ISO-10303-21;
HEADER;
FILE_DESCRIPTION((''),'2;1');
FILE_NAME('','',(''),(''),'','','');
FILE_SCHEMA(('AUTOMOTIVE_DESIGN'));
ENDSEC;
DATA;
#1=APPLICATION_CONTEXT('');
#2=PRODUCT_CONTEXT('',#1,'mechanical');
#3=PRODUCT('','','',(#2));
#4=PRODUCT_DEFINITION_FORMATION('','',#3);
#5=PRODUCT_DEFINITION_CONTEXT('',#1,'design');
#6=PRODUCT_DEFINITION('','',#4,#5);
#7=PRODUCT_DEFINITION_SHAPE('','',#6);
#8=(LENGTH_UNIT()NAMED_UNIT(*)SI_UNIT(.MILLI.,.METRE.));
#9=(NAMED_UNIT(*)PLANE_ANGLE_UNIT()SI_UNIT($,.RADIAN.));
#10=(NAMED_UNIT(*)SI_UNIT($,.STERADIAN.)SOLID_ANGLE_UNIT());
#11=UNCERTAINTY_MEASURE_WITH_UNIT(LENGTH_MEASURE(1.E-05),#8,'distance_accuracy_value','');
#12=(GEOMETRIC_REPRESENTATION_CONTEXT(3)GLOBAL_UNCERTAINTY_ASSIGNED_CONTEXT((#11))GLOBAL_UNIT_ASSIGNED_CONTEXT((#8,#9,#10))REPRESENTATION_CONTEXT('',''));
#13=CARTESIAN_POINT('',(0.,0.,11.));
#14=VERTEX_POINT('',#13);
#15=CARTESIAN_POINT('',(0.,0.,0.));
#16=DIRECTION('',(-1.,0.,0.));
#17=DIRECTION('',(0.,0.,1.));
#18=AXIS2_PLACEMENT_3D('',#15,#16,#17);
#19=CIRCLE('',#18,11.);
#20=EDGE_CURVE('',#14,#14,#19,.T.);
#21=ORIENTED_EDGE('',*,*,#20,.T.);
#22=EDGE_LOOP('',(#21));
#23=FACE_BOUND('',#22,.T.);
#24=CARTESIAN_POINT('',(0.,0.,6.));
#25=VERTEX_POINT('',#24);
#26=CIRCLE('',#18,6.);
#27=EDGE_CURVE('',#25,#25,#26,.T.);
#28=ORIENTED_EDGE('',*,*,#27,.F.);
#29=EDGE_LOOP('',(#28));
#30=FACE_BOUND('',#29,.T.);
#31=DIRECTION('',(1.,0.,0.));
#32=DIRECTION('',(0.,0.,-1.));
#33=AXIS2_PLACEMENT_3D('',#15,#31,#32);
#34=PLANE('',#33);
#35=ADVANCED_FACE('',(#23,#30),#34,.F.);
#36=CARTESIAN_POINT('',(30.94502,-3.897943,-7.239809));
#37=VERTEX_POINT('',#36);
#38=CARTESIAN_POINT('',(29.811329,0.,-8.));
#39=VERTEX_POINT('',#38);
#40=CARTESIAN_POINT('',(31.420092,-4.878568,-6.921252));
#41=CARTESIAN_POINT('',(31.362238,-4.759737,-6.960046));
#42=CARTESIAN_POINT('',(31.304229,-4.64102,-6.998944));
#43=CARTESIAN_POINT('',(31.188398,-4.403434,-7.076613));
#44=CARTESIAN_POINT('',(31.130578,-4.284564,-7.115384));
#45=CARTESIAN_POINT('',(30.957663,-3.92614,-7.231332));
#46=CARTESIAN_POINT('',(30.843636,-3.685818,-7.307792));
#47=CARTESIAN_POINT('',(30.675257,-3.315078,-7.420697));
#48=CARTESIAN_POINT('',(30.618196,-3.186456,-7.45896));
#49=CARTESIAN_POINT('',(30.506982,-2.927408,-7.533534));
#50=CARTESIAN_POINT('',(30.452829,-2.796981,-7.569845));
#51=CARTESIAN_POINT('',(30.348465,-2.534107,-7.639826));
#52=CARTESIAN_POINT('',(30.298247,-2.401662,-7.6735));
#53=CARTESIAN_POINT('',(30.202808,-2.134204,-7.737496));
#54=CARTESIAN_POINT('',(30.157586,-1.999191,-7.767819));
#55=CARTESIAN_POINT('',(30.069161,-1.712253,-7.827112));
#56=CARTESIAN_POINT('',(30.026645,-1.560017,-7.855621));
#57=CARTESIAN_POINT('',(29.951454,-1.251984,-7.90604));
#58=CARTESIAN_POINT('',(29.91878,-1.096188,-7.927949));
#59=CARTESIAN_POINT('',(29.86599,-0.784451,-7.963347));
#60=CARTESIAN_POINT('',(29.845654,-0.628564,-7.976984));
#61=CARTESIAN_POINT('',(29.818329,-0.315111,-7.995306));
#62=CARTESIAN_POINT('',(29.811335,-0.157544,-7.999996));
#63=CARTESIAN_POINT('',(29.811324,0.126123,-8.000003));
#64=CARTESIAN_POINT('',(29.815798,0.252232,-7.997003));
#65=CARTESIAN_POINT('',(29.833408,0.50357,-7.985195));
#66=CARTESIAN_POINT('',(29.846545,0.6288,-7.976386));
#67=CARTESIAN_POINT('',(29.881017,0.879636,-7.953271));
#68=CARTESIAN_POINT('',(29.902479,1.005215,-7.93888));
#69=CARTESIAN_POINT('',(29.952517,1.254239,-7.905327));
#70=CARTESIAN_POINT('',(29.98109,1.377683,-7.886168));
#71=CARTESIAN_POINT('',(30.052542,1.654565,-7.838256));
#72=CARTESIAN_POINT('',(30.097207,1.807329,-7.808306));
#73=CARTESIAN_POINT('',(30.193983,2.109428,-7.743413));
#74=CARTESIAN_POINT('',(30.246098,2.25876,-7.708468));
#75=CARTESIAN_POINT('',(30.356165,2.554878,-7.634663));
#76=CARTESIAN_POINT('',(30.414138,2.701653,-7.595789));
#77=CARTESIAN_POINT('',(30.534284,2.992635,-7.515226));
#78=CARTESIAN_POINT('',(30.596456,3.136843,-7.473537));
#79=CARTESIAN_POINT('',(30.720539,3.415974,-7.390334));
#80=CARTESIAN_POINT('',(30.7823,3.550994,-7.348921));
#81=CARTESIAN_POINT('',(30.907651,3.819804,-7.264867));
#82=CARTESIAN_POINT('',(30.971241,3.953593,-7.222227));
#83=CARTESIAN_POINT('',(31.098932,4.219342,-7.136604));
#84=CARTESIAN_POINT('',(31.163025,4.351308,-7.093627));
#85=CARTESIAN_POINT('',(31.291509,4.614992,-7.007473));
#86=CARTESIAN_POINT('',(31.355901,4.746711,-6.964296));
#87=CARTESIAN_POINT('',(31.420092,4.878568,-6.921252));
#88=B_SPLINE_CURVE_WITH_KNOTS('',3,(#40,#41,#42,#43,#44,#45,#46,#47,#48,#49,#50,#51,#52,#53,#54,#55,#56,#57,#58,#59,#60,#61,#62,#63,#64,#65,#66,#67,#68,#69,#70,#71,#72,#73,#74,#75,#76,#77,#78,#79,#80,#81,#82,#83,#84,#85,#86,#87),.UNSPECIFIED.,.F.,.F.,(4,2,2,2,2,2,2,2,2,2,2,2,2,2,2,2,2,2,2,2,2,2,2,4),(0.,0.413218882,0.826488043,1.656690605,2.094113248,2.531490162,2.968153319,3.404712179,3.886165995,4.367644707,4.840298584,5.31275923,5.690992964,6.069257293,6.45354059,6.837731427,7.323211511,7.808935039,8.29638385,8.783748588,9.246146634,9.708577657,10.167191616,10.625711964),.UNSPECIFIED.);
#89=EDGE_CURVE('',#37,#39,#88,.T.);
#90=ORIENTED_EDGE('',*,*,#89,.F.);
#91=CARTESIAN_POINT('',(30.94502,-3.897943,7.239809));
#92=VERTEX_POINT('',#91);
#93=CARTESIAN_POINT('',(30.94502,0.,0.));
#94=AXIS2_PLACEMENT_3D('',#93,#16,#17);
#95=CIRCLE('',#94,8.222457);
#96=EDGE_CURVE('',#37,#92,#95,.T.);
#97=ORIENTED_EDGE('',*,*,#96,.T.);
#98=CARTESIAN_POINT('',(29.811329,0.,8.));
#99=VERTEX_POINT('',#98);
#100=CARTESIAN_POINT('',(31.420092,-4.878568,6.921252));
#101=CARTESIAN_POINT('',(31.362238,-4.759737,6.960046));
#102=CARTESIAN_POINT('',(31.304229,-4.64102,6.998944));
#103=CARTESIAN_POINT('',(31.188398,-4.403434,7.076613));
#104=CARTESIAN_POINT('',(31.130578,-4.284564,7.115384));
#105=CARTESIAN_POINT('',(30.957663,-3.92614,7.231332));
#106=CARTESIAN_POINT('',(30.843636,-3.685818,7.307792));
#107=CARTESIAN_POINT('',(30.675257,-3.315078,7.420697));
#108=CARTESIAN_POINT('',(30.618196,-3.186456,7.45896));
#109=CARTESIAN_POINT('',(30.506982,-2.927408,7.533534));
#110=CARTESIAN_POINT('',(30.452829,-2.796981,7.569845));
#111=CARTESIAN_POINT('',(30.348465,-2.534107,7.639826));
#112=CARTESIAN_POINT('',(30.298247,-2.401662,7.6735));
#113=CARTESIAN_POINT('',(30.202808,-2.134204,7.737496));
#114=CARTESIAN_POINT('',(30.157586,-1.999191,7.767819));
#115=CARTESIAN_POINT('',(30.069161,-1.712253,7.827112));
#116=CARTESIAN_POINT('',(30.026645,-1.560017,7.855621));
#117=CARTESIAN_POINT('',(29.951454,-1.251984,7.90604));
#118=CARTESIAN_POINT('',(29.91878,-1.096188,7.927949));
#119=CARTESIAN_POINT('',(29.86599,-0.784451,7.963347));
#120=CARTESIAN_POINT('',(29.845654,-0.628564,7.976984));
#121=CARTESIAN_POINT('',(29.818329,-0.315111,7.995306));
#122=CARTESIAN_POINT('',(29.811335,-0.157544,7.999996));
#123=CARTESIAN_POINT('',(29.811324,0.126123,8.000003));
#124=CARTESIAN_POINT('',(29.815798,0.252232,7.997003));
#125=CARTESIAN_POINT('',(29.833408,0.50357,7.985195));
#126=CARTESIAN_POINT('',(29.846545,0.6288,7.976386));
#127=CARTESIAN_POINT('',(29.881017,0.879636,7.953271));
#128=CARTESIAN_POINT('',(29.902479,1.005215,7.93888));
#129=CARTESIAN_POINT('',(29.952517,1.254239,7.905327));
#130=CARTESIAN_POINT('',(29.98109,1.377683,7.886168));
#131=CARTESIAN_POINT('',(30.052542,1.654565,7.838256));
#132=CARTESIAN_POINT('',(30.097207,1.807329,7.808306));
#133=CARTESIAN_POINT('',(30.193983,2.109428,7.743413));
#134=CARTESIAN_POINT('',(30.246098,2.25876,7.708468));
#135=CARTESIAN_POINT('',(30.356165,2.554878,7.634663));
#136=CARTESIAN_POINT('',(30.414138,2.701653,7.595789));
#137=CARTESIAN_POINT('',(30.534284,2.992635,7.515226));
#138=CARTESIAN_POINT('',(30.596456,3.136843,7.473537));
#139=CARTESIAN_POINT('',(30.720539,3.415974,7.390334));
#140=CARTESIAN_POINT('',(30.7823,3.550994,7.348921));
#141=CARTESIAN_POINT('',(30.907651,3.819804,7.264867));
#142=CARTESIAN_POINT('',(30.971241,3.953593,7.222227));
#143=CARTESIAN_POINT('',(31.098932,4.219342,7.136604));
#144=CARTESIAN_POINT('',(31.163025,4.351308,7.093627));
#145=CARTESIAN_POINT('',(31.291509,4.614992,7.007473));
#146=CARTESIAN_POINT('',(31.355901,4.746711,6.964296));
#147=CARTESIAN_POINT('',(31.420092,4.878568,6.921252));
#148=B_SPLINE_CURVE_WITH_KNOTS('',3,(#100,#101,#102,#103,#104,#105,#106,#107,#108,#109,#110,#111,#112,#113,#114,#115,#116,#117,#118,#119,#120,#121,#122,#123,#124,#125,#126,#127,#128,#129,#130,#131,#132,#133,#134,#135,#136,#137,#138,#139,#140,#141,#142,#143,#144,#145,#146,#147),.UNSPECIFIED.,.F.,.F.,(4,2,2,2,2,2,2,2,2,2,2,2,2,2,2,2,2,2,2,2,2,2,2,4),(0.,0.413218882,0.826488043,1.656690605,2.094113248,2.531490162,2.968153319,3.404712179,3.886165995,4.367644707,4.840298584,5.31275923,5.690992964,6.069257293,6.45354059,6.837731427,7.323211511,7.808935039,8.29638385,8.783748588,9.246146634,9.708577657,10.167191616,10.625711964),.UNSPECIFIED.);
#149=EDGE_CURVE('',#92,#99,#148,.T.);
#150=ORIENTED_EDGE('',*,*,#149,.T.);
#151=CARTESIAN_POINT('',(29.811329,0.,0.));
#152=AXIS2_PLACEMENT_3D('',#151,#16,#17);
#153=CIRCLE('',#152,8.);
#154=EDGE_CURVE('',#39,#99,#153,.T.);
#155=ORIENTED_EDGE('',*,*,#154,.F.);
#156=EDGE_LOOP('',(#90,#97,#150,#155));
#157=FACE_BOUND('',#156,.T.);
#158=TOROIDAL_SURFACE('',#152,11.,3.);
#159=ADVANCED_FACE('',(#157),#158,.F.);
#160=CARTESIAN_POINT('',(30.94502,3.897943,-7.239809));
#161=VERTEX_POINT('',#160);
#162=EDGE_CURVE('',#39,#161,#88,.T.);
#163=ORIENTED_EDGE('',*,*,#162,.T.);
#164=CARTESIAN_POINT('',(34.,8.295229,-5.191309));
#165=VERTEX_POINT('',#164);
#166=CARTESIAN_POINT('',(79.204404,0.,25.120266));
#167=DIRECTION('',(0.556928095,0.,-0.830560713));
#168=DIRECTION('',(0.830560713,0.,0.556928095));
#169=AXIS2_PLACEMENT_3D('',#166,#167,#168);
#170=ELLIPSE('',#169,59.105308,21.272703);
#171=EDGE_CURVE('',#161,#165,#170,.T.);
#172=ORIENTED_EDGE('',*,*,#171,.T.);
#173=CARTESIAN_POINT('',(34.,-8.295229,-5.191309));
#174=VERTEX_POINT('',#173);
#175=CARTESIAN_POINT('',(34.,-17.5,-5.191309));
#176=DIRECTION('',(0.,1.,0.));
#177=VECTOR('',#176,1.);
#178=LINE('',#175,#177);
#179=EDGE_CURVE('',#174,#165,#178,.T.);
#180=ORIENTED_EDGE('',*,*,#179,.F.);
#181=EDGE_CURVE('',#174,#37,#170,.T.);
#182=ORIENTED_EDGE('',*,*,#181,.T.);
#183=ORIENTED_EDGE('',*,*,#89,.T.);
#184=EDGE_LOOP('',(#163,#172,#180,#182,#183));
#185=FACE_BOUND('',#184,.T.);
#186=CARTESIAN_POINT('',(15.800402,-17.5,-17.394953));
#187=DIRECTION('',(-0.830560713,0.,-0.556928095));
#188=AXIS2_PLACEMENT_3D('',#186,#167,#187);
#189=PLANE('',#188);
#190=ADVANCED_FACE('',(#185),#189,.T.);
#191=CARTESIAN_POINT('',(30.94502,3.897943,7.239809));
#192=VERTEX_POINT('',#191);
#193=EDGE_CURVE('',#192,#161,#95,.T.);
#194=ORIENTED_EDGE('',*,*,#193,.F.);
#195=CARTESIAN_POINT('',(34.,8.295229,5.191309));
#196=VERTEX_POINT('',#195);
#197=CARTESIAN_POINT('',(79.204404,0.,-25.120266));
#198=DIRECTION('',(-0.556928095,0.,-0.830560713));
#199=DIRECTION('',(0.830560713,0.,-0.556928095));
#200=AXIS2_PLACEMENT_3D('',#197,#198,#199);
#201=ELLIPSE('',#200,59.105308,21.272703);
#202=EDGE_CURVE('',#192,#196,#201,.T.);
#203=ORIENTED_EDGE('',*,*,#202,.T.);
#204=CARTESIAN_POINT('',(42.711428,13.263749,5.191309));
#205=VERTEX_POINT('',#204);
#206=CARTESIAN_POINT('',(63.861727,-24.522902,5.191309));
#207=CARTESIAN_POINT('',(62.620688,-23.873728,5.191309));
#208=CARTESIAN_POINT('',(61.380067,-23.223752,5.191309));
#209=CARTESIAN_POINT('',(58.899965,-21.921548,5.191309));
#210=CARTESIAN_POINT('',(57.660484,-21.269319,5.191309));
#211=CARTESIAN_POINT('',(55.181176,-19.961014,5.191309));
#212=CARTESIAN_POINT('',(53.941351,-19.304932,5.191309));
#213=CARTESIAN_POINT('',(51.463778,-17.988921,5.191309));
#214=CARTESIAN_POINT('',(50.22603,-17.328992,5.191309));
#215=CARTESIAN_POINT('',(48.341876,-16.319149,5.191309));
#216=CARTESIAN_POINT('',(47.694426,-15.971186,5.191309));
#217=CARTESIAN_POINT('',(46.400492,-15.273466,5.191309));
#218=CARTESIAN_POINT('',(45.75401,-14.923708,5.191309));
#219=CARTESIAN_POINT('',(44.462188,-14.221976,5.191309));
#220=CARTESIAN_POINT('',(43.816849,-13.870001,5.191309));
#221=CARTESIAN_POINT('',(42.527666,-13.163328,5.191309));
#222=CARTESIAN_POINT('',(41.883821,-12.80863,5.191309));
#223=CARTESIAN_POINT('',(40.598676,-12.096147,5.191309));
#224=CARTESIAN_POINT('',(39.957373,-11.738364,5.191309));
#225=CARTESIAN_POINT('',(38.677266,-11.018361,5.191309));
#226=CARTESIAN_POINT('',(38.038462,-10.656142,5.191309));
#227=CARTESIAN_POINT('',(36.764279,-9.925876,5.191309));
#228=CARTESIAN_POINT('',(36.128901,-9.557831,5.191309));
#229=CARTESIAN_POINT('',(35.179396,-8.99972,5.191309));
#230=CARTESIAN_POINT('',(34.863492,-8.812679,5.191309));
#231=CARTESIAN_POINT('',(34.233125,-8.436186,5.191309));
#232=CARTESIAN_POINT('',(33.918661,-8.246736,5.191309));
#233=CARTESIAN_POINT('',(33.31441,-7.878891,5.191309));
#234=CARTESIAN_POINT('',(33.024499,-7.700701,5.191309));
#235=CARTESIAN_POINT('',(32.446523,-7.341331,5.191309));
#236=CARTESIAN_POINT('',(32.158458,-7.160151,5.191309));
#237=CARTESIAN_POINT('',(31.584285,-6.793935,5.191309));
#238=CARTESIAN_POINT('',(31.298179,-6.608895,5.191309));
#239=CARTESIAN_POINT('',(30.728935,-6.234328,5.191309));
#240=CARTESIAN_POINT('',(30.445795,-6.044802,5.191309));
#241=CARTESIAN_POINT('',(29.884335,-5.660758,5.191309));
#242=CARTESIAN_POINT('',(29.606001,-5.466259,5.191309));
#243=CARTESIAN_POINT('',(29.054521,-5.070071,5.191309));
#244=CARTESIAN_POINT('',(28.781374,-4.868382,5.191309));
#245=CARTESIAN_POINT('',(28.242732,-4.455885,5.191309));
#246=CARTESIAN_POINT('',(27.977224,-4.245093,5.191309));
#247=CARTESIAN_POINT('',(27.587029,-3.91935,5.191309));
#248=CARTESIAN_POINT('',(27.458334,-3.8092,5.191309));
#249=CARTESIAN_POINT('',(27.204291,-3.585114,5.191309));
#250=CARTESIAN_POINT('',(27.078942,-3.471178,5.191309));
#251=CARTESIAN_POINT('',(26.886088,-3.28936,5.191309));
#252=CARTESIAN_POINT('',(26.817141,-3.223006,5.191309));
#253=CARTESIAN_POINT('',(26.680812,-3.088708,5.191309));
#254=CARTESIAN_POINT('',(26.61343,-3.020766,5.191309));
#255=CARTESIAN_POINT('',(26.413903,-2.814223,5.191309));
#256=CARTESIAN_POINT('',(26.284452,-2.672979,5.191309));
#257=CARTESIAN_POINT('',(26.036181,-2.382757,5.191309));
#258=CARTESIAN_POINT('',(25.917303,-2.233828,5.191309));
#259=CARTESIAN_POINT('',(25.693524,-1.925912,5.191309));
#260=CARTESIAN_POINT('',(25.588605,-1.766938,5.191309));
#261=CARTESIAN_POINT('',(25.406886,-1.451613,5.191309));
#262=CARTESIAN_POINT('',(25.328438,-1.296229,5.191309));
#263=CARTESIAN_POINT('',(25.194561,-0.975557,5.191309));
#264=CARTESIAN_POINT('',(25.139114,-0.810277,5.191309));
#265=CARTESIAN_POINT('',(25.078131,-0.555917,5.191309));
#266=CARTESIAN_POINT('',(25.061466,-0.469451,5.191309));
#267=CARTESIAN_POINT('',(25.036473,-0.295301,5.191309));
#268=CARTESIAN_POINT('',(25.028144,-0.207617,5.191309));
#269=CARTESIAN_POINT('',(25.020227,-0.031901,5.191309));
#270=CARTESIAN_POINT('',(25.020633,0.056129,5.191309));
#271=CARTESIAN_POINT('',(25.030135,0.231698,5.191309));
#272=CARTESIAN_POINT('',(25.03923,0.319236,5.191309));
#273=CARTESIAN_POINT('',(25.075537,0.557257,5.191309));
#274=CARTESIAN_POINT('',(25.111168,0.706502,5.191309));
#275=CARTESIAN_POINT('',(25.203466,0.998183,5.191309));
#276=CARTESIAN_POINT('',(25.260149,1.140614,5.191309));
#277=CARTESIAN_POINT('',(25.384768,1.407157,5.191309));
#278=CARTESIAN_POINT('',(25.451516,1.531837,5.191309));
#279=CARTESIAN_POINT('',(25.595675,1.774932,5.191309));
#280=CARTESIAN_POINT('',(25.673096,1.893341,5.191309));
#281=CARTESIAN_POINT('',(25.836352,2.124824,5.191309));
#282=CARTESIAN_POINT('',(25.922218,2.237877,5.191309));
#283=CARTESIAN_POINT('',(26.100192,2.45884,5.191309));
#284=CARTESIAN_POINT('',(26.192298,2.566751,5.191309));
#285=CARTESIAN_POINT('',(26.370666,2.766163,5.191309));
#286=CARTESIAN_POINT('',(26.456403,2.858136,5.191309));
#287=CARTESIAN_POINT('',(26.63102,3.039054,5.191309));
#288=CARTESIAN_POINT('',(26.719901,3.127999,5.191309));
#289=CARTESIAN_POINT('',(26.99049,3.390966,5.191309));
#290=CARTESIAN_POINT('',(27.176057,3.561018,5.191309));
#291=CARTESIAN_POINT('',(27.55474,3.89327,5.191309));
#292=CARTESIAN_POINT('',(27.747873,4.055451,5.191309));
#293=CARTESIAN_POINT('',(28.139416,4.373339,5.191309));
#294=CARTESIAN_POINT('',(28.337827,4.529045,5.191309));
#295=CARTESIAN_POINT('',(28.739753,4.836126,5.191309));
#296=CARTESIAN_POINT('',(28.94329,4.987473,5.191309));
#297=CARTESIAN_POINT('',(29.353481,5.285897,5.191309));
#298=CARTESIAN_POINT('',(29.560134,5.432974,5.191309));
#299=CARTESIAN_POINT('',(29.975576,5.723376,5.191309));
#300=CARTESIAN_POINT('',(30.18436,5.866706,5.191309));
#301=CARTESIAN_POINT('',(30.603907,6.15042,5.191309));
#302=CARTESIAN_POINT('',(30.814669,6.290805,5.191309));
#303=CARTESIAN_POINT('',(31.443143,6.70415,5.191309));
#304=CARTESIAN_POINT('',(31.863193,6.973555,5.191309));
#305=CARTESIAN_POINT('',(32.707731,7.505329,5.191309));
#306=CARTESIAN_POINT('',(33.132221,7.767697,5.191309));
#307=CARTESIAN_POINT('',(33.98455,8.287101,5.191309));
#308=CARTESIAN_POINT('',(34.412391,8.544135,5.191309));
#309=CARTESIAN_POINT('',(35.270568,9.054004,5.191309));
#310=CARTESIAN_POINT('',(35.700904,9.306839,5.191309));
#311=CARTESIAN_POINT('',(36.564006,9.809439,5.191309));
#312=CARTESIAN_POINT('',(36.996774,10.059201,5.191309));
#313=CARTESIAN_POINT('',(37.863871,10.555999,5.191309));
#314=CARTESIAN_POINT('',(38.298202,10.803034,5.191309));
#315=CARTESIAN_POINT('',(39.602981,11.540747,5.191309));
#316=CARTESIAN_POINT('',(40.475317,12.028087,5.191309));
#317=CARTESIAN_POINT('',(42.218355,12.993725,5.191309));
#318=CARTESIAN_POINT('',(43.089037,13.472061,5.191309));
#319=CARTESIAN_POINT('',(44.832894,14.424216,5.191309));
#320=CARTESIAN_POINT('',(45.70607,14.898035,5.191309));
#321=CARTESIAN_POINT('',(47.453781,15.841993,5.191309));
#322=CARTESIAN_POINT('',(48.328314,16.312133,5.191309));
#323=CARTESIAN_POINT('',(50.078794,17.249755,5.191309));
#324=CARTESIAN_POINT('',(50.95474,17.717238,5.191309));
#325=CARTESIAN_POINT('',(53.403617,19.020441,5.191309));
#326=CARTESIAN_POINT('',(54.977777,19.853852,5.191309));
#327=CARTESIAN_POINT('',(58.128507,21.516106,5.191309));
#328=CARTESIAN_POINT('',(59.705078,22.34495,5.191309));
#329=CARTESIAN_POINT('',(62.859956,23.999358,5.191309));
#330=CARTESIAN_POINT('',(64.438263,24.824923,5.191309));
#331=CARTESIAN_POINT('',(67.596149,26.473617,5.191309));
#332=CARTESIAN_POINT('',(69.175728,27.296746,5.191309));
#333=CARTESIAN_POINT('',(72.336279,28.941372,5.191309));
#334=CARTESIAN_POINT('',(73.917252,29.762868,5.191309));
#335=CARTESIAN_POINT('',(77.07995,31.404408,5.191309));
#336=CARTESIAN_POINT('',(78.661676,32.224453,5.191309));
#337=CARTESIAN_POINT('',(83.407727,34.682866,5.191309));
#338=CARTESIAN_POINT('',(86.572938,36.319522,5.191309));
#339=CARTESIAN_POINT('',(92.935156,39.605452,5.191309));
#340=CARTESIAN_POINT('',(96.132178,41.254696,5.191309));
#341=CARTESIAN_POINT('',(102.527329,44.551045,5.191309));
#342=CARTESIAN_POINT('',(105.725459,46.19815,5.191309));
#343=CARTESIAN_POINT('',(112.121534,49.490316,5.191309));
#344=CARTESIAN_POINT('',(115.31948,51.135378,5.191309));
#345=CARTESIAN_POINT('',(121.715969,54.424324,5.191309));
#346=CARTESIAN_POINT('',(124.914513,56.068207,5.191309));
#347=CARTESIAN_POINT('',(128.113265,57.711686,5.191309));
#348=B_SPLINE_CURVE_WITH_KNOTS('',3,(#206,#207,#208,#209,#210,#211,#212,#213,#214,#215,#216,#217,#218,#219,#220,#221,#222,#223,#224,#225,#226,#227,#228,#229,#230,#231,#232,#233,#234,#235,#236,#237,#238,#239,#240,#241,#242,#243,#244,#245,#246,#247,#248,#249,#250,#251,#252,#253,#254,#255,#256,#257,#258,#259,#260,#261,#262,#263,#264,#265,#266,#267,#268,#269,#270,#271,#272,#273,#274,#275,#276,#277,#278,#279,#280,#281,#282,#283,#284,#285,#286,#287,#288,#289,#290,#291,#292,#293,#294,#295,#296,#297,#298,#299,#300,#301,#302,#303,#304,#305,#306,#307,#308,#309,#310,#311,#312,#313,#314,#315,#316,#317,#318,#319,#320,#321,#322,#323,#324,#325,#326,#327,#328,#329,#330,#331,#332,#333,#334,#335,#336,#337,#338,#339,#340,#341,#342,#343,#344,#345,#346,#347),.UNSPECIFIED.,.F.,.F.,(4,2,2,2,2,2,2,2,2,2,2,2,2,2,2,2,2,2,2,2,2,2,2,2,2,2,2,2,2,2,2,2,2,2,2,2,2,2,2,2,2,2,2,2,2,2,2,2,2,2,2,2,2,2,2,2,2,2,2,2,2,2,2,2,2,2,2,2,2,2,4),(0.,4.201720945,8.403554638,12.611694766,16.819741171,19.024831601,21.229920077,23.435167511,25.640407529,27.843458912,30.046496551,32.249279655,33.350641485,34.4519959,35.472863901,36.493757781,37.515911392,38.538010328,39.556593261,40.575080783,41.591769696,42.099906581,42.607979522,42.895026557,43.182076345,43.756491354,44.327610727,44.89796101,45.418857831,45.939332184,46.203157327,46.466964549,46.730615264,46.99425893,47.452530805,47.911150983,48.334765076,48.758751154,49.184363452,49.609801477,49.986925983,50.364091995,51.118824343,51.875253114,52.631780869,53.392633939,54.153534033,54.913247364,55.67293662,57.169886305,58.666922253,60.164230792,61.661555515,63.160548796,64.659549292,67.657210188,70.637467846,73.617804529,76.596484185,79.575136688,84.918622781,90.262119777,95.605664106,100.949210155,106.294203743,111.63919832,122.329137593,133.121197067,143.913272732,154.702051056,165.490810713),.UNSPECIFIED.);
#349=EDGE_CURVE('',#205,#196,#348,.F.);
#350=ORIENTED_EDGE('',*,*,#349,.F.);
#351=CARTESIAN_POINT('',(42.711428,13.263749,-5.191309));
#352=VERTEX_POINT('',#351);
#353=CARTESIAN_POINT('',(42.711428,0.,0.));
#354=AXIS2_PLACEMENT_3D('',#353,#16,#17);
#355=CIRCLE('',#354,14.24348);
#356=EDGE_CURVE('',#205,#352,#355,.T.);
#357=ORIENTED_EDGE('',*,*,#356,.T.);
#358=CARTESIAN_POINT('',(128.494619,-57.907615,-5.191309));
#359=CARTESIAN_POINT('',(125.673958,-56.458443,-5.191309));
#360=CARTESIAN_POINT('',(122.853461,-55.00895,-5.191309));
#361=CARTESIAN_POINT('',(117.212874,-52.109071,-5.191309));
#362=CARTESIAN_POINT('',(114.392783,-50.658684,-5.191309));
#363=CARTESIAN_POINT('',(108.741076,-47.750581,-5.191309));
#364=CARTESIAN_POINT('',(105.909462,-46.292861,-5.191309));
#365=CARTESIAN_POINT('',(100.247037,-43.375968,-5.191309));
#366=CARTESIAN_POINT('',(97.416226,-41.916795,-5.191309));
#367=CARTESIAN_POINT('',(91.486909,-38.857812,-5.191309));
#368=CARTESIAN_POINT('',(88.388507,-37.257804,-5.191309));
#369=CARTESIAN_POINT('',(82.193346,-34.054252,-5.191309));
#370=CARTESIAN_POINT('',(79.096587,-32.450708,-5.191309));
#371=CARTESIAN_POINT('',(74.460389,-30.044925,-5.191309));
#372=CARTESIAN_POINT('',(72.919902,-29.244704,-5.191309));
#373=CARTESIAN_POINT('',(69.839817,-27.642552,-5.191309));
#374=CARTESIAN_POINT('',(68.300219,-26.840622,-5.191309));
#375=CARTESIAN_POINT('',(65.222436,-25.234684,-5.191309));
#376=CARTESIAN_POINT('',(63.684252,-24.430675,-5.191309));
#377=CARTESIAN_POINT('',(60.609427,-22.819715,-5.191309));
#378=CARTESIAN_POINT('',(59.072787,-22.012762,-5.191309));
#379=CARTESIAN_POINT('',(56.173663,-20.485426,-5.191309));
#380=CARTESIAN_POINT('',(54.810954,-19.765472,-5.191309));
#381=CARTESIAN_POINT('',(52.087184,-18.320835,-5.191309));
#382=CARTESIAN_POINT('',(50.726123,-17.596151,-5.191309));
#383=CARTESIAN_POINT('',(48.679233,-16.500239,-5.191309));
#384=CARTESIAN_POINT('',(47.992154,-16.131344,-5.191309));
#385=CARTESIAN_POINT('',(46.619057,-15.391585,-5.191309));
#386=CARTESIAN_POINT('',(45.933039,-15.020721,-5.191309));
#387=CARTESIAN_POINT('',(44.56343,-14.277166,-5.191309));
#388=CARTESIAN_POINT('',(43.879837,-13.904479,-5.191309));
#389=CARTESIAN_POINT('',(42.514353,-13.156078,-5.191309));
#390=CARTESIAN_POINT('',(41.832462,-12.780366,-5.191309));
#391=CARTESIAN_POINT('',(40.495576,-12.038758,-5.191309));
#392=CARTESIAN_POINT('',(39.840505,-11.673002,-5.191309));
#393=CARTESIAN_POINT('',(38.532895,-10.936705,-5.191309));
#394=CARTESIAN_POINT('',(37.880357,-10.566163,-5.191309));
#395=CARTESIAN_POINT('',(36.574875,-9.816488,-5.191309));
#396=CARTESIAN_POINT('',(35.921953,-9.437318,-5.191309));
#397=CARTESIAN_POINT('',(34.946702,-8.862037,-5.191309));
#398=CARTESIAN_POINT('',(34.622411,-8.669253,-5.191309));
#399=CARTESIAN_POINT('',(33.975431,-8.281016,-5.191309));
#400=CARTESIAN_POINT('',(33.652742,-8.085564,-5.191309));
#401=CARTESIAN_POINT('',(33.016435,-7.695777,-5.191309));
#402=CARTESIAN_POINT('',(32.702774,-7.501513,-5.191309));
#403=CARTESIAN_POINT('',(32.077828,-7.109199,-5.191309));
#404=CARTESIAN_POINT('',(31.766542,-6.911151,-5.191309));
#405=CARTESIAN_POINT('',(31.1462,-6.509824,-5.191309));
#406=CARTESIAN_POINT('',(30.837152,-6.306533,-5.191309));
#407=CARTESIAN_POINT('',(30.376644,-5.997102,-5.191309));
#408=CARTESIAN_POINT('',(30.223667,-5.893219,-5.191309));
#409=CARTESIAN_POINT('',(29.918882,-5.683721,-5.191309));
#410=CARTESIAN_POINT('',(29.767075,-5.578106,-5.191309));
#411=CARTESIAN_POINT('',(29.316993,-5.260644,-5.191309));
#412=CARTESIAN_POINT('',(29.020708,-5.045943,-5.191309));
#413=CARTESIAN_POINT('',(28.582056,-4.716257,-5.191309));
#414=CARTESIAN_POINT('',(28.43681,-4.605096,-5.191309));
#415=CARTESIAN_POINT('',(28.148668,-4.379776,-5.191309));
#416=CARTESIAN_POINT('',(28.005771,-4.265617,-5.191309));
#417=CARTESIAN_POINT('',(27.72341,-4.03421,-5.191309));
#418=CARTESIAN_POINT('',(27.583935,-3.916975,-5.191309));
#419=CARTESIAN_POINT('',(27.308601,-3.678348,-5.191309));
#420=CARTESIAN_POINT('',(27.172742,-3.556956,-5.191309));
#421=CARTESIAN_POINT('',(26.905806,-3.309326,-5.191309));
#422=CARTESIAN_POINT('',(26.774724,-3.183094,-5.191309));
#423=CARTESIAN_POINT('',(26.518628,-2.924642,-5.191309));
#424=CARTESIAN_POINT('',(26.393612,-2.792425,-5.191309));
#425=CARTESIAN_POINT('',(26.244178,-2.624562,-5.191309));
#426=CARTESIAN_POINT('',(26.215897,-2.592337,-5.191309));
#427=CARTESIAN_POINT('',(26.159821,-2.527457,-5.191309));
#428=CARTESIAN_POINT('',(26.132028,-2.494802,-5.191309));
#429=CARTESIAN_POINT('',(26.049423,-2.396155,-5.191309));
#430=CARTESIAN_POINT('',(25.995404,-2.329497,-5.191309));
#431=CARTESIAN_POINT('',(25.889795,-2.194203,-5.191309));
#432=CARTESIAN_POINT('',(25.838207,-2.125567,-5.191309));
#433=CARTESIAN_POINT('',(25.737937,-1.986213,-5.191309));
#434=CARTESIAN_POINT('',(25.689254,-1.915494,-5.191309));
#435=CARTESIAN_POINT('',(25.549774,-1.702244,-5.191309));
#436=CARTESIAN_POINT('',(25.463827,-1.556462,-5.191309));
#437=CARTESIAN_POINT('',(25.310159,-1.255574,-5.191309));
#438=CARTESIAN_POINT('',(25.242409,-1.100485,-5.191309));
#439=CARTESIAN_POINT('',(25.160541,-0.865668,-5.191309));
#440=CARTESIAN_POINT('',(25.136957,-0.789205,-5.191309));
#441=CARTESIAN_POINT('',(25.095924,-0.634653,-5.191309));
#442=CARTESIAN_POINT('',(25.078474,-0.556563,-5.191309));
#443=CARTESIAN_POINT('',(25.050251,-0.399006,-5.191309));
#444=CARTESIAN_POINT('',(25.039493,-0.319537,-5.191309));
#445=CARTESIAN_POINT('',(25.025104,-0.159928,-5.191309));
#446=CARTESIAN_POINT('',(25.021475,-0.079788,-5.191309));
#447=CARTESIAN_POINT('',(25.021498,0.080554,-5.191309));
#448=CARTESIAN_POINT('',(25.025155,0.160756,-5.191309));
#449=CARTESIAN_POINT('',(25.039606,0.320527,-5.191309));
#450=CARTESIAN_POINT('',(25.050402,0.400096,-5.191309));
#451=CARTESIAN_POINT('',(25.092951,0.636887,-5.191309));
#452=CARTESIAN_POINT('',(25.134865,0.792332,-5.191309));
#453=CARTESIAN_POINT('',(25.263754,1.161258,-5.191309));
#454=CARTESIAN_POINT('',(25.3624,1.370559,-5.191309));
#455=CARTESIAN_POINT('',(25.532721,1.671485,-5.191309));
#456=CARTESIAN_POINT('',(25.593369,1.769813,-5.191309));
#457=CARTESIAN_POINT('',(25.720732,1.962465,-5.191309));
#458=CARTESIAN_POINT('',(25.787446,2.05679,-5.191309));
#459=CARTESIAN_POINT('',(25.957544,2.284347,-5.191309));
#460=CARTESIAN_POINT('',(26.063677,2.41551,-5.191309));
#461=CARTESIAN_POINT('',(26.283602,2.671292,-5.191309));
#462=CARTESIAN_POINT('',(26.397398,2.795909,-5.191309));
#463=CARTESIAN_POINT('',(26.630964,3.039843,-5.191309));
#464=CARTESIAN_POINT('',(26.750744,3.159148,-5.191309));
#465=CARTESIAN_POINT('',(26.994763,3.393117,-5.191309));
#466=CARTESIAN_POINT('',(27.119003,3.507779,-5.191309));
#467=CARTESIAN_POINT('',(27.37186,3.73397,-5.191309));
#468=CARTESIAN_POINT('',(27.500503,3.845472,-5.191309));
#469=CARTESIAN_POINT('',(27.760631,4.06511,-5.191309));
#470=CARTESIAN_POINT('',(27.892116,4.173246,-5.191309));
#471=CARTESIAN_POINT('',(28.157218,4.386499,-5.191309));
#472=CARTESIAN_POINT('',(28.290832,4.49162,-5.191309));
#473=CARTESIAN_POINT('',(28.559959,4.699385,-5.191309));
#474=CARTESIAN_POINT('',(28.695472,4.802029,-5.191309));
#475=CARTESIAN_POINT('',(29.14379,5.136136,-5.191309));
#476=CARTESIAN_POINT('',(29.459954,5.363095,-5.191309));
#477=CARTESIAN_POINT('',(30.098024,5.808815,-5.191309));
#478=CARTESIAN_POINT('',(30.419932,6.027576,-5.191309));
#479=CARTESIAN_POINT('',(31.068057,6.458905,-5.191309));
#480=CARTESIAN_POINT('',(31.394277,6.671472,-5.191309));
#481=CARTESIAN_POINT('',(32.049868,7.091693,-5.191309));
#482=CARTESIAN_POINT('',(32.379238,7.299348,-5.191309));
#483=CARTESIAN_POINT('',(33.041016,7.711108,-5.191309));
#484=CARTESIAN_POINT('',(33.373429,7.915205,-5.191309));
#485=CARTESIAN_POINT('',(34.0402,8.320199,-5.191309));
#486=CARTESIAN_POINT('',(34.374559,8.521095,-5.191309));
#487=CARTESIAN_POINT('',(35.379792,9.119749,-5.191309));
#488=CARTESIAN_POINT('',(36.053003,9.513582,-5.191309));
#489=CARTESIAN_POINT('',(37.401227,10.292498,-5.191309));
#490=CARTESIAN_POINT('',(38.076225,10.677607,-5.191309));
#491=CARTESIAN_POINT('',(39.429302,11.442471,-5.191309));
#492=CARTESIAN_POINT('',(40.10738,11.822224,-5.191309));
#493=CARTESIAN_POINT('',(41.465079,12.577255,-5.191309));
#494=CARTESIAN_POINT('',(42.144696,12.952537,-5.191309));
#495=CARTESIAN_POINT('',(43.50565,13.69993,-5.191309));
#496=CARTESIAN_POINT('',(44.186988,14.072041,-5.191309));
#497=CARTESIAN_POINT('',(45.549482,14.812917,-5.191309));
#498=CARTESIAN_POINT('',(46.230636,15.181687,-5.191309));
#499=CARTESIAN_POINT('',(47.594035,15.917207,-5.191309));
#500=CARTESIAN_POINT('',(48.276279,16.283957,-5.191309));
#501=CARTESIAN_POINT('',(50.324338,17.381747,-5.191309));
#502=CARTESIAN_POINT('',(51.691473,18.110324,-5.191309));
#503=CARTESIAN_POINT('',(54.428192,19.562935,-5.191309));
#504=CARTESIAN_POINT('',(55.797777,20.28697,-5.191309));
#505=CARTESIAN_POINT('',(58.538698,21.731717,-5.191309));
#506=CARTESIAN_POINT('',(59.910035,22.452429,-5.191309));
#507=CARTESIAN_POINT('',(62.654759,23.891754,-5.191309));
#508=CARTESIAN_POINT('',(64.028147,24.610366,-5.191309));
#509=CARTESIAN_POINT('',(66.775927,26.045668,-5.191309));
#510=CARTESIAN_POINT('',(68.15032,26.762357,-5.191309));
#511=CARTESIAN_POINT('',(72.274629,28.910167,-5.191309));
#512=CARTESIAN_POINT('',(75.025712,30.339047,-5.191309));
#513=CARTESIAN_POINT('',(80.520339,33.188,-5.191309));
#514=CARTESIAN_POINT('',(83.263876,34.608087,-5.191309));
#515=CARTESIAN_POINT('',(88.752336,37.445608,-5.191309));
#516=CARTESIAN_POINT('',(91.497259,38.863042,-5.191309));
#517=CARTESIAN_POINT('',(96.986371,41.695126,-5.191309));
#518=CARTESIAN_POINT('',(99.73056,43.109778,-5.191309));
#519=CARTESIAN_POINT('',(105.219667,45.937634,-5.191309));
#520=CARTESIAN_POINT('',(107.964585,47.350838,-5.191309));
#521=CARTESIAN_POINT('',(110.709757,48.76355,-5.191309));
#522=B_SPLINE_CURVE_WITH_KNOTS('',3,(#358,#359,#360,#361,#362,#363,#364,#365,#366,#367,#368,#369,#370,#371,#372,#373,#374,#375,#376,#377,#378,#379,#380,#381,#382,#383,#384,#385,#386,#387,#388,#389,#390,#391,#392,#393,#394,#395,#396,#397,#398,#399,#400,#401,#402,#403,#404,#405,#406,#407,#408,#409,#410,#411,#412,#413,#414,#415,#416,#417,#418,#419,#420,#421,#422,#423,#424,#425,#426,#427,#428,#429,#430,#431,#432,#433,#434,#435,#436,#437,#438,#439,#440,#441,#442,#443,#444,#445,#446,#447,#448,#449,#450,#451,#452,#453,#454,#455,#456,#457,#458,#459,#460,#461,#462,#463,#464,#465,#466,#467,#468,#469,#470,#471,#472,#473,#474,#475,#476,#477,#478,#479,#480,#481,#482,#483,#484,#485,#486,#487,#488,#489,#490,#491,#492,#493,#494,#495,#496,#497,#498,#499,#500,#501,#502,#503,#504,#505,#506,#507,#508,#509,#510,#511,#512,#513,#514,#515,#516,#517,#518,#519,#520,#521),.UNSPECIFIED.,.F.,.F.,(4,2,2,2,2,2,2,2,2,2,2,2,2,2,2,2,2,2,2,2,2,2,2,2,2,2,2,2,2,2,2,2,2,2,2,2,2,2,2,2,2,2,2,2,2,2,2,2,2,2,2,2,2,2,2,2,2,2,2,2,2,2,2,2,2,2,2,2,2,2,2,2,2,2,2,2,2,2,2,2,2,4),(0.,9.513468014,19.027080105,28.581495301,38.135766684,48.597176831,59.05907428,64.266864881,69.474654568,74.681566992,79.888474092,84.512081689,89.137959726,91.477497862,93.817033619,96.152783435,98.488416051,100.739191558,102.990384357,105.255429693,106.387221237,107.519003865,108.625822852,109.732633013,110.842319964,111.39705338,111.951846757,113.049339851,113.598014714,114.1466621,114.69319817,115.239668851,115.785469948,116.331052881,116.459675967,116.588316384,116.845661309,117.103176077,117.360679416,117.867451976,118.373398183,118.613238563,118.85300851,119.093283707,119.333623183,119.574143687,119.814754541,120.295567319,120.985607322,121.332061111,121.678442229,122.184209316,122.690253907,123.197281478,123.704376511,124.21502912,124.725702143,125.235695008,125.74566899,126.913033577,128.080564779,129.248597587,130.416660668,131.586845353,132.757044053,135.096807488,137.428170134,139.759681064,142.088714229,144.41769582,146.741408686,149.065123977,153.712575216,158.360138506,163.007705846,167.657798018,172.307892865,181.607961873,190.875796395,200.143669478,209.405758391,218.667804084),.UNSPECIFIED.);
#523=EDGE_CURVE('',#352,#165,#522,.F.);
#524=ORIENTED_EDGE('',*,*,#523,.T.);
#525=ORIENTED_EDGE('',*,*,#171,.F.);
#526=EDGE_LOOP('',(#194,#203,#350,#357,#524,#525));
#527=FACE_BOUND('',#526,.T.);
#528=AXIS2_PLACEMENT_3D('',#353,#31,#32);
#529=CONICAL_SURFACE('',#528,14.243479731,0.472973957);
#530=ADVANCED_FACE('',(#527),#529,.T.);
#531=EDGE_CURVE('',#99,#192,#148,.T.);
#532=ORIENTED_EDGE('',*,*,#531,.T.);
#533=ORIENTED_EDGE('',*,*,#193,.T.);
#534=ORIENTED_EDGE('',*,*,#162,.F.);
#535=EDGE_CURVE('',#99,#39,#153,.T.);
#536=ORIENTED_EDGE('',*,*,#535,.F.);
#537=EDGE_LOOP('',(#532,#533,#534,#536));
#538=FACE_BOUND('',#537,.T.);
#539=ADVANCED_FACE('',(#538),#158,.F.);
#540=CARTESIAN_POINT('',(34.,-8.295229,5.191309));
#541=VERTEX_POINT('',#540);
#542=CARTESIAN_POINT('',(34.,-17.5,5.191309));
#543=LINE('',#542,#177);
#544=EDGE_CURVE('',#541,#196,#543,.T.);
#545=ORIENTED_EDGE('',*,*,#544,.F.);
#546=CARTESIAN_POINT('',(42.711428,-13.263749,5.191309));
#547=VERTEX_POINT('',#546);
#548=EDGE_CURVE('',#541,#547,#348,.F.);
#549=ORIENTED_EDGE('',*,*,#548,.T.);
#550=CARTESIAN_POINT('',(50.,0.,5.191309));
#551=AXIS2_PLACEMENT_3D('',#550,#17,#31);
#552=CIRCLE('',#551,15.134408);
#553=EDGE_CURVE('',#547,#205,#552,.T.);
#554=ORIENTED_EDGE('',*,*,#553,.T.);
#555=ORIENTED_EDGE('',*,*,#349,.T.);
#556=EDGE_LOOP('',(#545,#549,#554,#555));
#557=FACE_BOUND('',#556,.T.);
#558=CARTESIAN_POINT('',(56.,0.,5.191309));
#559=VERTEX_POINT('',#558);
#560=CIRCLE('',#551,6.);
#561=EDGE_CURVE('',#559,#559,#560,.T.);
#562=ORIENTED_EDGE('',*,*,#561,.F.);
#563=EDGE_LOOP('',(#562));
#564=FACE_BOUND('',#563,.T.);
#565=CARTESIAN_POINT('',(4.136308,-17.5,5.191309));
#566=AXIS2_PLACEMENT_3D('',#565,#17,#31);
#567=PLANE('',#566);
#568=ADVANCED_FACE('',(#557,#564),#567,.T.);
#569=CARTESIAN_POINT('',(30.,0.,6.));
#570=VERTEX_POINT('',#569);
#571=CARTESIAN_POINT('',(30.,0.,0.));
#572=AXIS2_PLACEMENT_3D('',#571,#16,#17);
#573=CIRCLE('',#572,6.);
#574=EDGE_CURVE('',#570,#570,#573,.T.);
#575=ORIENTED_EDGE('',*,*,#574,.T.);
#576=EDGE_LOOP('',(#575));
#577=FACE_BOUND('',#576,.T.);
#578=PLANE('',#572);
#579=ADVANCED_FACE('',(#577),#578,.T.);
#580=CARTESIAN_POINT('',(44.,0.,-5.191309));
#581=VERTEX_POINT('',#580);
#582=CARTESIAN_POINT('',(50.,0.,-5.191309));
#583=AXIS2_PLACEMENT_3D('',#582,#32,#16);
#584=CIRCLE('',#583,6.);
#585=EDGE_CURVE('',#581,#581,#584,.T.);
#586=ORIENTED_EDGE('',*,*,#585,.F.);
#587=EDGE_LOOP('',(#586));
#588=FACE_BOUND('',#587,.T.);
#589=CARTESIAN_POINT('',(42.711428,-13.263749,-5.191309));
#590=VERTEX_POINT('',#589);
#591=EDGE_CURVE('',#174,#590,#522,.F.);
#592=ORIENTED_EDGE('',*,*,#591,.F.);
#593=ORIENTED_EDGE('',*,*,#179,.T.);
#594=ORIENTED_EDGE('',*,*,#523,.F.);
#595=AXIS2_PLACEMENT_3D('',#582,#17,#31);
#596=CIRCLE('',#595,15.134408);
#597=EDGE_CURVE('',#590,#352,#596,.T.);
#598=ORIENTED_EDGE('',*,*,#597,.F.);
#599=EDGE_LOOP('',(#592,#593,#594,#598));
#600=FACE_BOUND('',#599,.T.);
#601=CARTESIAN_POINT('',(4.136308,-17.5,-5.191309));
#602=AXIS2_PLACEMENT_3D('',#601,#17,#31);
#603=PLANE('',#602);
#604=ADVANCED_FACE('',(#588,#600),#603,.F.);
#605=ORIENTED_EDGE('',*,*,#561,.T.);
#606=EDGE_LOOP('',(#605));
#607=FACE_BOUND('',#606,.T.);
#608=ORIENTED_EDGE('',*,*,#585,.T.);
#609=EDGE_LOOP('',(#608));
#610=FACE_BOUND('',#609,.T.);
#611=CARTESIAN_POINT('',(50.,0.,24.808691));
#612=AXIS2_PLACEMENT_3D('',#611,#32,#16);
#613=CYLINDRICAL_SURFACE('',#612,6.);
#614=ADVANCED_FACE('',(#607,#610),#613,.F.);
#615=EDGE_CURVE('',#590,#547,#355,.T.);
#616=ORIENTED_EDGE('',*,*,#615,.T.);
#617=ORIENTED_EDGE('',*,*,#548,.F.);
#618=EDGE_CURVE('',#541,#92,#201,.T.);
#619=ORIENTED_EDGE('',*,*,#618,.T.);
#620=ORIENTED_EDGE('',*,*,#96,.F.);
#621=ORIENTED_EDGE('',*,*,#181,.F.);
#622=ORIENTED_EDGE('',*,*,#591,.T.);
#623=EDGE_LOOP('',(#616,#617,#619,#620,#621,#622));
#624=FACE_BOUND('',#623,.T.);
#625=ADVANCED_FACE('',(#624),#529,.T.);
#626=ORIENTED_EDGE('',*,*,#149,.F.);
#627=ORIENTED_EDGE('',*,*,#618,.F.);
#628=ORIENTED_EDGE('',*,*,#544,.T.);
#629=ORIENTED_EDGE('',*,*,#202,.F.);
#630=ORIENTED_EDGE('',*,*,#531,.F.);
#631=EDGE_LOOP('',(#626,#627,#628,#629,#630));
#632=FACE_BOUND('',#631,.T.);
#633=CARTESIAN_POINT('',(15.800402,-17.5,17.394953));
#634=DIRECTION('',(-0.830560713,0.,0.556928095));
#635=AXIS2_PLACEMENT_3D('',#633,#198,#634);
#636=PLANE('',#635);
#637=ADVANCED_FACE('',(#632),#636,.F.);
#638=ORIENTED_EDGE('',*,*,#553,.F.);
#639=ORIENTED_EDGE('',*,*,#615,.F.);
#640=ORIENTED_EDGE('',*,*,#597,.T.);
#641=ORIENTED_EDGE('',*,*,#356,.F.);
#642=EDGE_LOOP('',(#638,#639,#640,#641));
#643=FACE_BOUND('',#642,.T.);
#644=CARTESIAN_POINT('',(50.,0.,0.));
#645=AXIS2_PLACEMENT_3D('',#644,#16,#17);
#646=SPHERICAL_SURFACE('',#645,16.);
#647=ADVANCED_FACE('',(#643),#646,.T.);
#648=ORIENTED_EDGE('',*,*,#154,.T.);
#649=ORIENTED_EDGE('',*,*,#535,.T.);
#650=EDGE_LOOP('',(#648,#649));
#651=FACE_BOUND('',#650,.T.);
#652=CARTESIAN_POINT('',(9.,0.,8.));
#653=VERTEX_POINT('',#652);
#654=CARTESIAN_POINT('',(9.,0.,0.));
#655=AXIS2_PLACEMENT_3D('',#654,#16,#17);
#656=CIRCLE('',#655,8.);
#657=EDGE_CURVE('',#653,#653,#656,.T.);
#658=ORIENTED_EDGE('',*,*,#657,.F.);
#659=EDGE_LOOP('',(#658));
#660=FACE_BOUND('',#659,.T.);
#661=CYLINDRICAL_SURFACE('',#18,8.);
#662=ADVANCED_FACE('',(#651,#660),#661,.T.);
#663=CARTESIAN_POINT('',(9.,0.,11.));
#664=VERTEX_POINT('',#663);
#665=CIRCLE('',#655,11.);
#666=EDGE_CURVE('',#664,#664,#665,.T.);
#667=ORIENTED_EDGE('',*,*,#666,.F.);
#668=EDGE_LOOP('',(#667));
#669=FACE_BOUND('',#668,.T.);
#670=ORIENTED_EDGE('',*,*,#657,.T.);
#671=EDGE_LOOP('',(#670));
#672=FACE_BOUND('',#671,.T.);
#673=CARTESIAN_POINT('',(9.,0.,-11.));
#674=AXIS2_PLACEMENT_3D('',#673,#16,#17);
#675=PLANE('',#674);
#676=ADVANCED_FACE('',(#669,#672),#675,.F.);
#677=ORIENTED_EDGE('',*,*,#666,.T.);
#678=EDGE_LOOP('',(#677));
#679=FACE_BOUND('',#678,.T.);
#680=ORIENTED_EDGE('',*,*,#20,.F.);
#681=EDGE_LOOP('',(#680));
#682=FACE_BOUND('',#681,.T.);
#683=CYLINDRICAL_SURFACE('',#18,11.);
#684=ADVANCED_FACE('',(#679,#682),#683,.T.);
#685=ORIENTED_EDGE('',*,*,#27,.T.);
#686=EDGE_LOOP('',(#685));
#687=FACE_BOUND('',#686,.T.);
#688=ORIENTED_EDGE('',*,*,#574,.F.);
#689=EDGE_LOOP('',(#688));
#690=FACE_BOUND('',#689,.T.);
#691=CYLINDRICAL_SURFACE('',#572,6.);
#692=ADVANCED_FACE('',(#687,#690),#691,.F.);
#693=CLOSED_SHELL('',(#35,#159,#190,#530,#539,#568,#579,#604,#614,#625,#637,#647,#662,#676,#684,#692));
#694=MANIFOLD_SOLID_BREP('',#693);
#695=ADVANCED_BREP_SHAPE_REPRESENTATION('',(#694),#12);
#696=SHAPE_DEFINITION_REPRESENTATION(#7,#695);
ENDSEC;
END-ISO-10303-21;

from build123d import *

# Parameters (mm, degrees)
CUT_EXTRUDE_1_DEPTH = 17.5
SKETCH_3_R          = 6
CUT_EXTRUDE_2_DEPTH = 30
SKETCH_4_R          = 6
CUT_EXTRUDE_3_DEPTH = 30


with BuildPart() as part:
    # 草图1 → 旋转1 (revolve)
    with BuildSketch(Plane(origin=(0, 0, 0), x_dir=(1, 0, 0), z_dir=(0, 1, 0)), mode=Mode.PRIVATE) as revolve_1_sk:
        with BuildLine():
            Line((0, 0), (0, 11))
            Line((0, 11), (9, 11))
            Line((9, 11), (9, 8))
            Line((9, 8), (29.811328827, 8))
            ThreePointArc((29.811328827, 8), (30.38898409, 8.056139542), (30.945019819, 8.222457069))
            Line((30.945019819, 8.222457069), (42.711427769, 14.243479731))
            ThreePointArc((42.711427769, 14.243479731), (58.348138844, 13.649490021), (66, 0))
            Line((66, 0), (0, 0))
        make_face()
    revolve(revolve_1_sk.sketch.rotate(Axis((0, 0, 0), (1, 0, 0)), 180), axis=Axis((0, 0, 0), (1, 0, 0)))

    # 草图2 → 拉伸1 (cut, symmetric)
    with BuildSketch(Plane(origin=(0, 0, 0), x_dir=(1, 0, 0), z_dir=(0, 1, 0))):
        Polygon((72.287262903, 20.406671453), (73.576090576, 5.191308691), (34, 5.191308691), (29.811328827, 8), (29.00979021, 16.150849151), align=None)
        Polygon((34, -5.191308691), (29.811328827, -8), (29.00979021, -16.150849151), (72.287262903, -20.406671453), (73.576090576, -5.191308691), align=None)
    extrude(amount=CUT_EXTRUDE_1_DEPTH, both=True, mode=Mode.SUBTRACT)

    # 草图3 → 拉伸2 (cut)
    with BuildSketch(Plane(origin=(0, 0, -5.191308691), x_dir=(-1, 0, 0), z_dir=(0, 0, -1))):
        with Locations((-50, 0)):
            Circle(SKETCH_3_R)
    extrude(amount=-CUT_EXTRUDE_2_DEPTH, mode=Mode.SUBTRACT)

    # 草图4 → 拉伸3 (cut)
    with BuildSketch(Plane.ZY):
        Circle(SKETCH_4_R)
    extrude(amount=-CUT_EXTRUDE_3_DEPTH, mode=Mode.SUBTRACT)


solid = part.part
